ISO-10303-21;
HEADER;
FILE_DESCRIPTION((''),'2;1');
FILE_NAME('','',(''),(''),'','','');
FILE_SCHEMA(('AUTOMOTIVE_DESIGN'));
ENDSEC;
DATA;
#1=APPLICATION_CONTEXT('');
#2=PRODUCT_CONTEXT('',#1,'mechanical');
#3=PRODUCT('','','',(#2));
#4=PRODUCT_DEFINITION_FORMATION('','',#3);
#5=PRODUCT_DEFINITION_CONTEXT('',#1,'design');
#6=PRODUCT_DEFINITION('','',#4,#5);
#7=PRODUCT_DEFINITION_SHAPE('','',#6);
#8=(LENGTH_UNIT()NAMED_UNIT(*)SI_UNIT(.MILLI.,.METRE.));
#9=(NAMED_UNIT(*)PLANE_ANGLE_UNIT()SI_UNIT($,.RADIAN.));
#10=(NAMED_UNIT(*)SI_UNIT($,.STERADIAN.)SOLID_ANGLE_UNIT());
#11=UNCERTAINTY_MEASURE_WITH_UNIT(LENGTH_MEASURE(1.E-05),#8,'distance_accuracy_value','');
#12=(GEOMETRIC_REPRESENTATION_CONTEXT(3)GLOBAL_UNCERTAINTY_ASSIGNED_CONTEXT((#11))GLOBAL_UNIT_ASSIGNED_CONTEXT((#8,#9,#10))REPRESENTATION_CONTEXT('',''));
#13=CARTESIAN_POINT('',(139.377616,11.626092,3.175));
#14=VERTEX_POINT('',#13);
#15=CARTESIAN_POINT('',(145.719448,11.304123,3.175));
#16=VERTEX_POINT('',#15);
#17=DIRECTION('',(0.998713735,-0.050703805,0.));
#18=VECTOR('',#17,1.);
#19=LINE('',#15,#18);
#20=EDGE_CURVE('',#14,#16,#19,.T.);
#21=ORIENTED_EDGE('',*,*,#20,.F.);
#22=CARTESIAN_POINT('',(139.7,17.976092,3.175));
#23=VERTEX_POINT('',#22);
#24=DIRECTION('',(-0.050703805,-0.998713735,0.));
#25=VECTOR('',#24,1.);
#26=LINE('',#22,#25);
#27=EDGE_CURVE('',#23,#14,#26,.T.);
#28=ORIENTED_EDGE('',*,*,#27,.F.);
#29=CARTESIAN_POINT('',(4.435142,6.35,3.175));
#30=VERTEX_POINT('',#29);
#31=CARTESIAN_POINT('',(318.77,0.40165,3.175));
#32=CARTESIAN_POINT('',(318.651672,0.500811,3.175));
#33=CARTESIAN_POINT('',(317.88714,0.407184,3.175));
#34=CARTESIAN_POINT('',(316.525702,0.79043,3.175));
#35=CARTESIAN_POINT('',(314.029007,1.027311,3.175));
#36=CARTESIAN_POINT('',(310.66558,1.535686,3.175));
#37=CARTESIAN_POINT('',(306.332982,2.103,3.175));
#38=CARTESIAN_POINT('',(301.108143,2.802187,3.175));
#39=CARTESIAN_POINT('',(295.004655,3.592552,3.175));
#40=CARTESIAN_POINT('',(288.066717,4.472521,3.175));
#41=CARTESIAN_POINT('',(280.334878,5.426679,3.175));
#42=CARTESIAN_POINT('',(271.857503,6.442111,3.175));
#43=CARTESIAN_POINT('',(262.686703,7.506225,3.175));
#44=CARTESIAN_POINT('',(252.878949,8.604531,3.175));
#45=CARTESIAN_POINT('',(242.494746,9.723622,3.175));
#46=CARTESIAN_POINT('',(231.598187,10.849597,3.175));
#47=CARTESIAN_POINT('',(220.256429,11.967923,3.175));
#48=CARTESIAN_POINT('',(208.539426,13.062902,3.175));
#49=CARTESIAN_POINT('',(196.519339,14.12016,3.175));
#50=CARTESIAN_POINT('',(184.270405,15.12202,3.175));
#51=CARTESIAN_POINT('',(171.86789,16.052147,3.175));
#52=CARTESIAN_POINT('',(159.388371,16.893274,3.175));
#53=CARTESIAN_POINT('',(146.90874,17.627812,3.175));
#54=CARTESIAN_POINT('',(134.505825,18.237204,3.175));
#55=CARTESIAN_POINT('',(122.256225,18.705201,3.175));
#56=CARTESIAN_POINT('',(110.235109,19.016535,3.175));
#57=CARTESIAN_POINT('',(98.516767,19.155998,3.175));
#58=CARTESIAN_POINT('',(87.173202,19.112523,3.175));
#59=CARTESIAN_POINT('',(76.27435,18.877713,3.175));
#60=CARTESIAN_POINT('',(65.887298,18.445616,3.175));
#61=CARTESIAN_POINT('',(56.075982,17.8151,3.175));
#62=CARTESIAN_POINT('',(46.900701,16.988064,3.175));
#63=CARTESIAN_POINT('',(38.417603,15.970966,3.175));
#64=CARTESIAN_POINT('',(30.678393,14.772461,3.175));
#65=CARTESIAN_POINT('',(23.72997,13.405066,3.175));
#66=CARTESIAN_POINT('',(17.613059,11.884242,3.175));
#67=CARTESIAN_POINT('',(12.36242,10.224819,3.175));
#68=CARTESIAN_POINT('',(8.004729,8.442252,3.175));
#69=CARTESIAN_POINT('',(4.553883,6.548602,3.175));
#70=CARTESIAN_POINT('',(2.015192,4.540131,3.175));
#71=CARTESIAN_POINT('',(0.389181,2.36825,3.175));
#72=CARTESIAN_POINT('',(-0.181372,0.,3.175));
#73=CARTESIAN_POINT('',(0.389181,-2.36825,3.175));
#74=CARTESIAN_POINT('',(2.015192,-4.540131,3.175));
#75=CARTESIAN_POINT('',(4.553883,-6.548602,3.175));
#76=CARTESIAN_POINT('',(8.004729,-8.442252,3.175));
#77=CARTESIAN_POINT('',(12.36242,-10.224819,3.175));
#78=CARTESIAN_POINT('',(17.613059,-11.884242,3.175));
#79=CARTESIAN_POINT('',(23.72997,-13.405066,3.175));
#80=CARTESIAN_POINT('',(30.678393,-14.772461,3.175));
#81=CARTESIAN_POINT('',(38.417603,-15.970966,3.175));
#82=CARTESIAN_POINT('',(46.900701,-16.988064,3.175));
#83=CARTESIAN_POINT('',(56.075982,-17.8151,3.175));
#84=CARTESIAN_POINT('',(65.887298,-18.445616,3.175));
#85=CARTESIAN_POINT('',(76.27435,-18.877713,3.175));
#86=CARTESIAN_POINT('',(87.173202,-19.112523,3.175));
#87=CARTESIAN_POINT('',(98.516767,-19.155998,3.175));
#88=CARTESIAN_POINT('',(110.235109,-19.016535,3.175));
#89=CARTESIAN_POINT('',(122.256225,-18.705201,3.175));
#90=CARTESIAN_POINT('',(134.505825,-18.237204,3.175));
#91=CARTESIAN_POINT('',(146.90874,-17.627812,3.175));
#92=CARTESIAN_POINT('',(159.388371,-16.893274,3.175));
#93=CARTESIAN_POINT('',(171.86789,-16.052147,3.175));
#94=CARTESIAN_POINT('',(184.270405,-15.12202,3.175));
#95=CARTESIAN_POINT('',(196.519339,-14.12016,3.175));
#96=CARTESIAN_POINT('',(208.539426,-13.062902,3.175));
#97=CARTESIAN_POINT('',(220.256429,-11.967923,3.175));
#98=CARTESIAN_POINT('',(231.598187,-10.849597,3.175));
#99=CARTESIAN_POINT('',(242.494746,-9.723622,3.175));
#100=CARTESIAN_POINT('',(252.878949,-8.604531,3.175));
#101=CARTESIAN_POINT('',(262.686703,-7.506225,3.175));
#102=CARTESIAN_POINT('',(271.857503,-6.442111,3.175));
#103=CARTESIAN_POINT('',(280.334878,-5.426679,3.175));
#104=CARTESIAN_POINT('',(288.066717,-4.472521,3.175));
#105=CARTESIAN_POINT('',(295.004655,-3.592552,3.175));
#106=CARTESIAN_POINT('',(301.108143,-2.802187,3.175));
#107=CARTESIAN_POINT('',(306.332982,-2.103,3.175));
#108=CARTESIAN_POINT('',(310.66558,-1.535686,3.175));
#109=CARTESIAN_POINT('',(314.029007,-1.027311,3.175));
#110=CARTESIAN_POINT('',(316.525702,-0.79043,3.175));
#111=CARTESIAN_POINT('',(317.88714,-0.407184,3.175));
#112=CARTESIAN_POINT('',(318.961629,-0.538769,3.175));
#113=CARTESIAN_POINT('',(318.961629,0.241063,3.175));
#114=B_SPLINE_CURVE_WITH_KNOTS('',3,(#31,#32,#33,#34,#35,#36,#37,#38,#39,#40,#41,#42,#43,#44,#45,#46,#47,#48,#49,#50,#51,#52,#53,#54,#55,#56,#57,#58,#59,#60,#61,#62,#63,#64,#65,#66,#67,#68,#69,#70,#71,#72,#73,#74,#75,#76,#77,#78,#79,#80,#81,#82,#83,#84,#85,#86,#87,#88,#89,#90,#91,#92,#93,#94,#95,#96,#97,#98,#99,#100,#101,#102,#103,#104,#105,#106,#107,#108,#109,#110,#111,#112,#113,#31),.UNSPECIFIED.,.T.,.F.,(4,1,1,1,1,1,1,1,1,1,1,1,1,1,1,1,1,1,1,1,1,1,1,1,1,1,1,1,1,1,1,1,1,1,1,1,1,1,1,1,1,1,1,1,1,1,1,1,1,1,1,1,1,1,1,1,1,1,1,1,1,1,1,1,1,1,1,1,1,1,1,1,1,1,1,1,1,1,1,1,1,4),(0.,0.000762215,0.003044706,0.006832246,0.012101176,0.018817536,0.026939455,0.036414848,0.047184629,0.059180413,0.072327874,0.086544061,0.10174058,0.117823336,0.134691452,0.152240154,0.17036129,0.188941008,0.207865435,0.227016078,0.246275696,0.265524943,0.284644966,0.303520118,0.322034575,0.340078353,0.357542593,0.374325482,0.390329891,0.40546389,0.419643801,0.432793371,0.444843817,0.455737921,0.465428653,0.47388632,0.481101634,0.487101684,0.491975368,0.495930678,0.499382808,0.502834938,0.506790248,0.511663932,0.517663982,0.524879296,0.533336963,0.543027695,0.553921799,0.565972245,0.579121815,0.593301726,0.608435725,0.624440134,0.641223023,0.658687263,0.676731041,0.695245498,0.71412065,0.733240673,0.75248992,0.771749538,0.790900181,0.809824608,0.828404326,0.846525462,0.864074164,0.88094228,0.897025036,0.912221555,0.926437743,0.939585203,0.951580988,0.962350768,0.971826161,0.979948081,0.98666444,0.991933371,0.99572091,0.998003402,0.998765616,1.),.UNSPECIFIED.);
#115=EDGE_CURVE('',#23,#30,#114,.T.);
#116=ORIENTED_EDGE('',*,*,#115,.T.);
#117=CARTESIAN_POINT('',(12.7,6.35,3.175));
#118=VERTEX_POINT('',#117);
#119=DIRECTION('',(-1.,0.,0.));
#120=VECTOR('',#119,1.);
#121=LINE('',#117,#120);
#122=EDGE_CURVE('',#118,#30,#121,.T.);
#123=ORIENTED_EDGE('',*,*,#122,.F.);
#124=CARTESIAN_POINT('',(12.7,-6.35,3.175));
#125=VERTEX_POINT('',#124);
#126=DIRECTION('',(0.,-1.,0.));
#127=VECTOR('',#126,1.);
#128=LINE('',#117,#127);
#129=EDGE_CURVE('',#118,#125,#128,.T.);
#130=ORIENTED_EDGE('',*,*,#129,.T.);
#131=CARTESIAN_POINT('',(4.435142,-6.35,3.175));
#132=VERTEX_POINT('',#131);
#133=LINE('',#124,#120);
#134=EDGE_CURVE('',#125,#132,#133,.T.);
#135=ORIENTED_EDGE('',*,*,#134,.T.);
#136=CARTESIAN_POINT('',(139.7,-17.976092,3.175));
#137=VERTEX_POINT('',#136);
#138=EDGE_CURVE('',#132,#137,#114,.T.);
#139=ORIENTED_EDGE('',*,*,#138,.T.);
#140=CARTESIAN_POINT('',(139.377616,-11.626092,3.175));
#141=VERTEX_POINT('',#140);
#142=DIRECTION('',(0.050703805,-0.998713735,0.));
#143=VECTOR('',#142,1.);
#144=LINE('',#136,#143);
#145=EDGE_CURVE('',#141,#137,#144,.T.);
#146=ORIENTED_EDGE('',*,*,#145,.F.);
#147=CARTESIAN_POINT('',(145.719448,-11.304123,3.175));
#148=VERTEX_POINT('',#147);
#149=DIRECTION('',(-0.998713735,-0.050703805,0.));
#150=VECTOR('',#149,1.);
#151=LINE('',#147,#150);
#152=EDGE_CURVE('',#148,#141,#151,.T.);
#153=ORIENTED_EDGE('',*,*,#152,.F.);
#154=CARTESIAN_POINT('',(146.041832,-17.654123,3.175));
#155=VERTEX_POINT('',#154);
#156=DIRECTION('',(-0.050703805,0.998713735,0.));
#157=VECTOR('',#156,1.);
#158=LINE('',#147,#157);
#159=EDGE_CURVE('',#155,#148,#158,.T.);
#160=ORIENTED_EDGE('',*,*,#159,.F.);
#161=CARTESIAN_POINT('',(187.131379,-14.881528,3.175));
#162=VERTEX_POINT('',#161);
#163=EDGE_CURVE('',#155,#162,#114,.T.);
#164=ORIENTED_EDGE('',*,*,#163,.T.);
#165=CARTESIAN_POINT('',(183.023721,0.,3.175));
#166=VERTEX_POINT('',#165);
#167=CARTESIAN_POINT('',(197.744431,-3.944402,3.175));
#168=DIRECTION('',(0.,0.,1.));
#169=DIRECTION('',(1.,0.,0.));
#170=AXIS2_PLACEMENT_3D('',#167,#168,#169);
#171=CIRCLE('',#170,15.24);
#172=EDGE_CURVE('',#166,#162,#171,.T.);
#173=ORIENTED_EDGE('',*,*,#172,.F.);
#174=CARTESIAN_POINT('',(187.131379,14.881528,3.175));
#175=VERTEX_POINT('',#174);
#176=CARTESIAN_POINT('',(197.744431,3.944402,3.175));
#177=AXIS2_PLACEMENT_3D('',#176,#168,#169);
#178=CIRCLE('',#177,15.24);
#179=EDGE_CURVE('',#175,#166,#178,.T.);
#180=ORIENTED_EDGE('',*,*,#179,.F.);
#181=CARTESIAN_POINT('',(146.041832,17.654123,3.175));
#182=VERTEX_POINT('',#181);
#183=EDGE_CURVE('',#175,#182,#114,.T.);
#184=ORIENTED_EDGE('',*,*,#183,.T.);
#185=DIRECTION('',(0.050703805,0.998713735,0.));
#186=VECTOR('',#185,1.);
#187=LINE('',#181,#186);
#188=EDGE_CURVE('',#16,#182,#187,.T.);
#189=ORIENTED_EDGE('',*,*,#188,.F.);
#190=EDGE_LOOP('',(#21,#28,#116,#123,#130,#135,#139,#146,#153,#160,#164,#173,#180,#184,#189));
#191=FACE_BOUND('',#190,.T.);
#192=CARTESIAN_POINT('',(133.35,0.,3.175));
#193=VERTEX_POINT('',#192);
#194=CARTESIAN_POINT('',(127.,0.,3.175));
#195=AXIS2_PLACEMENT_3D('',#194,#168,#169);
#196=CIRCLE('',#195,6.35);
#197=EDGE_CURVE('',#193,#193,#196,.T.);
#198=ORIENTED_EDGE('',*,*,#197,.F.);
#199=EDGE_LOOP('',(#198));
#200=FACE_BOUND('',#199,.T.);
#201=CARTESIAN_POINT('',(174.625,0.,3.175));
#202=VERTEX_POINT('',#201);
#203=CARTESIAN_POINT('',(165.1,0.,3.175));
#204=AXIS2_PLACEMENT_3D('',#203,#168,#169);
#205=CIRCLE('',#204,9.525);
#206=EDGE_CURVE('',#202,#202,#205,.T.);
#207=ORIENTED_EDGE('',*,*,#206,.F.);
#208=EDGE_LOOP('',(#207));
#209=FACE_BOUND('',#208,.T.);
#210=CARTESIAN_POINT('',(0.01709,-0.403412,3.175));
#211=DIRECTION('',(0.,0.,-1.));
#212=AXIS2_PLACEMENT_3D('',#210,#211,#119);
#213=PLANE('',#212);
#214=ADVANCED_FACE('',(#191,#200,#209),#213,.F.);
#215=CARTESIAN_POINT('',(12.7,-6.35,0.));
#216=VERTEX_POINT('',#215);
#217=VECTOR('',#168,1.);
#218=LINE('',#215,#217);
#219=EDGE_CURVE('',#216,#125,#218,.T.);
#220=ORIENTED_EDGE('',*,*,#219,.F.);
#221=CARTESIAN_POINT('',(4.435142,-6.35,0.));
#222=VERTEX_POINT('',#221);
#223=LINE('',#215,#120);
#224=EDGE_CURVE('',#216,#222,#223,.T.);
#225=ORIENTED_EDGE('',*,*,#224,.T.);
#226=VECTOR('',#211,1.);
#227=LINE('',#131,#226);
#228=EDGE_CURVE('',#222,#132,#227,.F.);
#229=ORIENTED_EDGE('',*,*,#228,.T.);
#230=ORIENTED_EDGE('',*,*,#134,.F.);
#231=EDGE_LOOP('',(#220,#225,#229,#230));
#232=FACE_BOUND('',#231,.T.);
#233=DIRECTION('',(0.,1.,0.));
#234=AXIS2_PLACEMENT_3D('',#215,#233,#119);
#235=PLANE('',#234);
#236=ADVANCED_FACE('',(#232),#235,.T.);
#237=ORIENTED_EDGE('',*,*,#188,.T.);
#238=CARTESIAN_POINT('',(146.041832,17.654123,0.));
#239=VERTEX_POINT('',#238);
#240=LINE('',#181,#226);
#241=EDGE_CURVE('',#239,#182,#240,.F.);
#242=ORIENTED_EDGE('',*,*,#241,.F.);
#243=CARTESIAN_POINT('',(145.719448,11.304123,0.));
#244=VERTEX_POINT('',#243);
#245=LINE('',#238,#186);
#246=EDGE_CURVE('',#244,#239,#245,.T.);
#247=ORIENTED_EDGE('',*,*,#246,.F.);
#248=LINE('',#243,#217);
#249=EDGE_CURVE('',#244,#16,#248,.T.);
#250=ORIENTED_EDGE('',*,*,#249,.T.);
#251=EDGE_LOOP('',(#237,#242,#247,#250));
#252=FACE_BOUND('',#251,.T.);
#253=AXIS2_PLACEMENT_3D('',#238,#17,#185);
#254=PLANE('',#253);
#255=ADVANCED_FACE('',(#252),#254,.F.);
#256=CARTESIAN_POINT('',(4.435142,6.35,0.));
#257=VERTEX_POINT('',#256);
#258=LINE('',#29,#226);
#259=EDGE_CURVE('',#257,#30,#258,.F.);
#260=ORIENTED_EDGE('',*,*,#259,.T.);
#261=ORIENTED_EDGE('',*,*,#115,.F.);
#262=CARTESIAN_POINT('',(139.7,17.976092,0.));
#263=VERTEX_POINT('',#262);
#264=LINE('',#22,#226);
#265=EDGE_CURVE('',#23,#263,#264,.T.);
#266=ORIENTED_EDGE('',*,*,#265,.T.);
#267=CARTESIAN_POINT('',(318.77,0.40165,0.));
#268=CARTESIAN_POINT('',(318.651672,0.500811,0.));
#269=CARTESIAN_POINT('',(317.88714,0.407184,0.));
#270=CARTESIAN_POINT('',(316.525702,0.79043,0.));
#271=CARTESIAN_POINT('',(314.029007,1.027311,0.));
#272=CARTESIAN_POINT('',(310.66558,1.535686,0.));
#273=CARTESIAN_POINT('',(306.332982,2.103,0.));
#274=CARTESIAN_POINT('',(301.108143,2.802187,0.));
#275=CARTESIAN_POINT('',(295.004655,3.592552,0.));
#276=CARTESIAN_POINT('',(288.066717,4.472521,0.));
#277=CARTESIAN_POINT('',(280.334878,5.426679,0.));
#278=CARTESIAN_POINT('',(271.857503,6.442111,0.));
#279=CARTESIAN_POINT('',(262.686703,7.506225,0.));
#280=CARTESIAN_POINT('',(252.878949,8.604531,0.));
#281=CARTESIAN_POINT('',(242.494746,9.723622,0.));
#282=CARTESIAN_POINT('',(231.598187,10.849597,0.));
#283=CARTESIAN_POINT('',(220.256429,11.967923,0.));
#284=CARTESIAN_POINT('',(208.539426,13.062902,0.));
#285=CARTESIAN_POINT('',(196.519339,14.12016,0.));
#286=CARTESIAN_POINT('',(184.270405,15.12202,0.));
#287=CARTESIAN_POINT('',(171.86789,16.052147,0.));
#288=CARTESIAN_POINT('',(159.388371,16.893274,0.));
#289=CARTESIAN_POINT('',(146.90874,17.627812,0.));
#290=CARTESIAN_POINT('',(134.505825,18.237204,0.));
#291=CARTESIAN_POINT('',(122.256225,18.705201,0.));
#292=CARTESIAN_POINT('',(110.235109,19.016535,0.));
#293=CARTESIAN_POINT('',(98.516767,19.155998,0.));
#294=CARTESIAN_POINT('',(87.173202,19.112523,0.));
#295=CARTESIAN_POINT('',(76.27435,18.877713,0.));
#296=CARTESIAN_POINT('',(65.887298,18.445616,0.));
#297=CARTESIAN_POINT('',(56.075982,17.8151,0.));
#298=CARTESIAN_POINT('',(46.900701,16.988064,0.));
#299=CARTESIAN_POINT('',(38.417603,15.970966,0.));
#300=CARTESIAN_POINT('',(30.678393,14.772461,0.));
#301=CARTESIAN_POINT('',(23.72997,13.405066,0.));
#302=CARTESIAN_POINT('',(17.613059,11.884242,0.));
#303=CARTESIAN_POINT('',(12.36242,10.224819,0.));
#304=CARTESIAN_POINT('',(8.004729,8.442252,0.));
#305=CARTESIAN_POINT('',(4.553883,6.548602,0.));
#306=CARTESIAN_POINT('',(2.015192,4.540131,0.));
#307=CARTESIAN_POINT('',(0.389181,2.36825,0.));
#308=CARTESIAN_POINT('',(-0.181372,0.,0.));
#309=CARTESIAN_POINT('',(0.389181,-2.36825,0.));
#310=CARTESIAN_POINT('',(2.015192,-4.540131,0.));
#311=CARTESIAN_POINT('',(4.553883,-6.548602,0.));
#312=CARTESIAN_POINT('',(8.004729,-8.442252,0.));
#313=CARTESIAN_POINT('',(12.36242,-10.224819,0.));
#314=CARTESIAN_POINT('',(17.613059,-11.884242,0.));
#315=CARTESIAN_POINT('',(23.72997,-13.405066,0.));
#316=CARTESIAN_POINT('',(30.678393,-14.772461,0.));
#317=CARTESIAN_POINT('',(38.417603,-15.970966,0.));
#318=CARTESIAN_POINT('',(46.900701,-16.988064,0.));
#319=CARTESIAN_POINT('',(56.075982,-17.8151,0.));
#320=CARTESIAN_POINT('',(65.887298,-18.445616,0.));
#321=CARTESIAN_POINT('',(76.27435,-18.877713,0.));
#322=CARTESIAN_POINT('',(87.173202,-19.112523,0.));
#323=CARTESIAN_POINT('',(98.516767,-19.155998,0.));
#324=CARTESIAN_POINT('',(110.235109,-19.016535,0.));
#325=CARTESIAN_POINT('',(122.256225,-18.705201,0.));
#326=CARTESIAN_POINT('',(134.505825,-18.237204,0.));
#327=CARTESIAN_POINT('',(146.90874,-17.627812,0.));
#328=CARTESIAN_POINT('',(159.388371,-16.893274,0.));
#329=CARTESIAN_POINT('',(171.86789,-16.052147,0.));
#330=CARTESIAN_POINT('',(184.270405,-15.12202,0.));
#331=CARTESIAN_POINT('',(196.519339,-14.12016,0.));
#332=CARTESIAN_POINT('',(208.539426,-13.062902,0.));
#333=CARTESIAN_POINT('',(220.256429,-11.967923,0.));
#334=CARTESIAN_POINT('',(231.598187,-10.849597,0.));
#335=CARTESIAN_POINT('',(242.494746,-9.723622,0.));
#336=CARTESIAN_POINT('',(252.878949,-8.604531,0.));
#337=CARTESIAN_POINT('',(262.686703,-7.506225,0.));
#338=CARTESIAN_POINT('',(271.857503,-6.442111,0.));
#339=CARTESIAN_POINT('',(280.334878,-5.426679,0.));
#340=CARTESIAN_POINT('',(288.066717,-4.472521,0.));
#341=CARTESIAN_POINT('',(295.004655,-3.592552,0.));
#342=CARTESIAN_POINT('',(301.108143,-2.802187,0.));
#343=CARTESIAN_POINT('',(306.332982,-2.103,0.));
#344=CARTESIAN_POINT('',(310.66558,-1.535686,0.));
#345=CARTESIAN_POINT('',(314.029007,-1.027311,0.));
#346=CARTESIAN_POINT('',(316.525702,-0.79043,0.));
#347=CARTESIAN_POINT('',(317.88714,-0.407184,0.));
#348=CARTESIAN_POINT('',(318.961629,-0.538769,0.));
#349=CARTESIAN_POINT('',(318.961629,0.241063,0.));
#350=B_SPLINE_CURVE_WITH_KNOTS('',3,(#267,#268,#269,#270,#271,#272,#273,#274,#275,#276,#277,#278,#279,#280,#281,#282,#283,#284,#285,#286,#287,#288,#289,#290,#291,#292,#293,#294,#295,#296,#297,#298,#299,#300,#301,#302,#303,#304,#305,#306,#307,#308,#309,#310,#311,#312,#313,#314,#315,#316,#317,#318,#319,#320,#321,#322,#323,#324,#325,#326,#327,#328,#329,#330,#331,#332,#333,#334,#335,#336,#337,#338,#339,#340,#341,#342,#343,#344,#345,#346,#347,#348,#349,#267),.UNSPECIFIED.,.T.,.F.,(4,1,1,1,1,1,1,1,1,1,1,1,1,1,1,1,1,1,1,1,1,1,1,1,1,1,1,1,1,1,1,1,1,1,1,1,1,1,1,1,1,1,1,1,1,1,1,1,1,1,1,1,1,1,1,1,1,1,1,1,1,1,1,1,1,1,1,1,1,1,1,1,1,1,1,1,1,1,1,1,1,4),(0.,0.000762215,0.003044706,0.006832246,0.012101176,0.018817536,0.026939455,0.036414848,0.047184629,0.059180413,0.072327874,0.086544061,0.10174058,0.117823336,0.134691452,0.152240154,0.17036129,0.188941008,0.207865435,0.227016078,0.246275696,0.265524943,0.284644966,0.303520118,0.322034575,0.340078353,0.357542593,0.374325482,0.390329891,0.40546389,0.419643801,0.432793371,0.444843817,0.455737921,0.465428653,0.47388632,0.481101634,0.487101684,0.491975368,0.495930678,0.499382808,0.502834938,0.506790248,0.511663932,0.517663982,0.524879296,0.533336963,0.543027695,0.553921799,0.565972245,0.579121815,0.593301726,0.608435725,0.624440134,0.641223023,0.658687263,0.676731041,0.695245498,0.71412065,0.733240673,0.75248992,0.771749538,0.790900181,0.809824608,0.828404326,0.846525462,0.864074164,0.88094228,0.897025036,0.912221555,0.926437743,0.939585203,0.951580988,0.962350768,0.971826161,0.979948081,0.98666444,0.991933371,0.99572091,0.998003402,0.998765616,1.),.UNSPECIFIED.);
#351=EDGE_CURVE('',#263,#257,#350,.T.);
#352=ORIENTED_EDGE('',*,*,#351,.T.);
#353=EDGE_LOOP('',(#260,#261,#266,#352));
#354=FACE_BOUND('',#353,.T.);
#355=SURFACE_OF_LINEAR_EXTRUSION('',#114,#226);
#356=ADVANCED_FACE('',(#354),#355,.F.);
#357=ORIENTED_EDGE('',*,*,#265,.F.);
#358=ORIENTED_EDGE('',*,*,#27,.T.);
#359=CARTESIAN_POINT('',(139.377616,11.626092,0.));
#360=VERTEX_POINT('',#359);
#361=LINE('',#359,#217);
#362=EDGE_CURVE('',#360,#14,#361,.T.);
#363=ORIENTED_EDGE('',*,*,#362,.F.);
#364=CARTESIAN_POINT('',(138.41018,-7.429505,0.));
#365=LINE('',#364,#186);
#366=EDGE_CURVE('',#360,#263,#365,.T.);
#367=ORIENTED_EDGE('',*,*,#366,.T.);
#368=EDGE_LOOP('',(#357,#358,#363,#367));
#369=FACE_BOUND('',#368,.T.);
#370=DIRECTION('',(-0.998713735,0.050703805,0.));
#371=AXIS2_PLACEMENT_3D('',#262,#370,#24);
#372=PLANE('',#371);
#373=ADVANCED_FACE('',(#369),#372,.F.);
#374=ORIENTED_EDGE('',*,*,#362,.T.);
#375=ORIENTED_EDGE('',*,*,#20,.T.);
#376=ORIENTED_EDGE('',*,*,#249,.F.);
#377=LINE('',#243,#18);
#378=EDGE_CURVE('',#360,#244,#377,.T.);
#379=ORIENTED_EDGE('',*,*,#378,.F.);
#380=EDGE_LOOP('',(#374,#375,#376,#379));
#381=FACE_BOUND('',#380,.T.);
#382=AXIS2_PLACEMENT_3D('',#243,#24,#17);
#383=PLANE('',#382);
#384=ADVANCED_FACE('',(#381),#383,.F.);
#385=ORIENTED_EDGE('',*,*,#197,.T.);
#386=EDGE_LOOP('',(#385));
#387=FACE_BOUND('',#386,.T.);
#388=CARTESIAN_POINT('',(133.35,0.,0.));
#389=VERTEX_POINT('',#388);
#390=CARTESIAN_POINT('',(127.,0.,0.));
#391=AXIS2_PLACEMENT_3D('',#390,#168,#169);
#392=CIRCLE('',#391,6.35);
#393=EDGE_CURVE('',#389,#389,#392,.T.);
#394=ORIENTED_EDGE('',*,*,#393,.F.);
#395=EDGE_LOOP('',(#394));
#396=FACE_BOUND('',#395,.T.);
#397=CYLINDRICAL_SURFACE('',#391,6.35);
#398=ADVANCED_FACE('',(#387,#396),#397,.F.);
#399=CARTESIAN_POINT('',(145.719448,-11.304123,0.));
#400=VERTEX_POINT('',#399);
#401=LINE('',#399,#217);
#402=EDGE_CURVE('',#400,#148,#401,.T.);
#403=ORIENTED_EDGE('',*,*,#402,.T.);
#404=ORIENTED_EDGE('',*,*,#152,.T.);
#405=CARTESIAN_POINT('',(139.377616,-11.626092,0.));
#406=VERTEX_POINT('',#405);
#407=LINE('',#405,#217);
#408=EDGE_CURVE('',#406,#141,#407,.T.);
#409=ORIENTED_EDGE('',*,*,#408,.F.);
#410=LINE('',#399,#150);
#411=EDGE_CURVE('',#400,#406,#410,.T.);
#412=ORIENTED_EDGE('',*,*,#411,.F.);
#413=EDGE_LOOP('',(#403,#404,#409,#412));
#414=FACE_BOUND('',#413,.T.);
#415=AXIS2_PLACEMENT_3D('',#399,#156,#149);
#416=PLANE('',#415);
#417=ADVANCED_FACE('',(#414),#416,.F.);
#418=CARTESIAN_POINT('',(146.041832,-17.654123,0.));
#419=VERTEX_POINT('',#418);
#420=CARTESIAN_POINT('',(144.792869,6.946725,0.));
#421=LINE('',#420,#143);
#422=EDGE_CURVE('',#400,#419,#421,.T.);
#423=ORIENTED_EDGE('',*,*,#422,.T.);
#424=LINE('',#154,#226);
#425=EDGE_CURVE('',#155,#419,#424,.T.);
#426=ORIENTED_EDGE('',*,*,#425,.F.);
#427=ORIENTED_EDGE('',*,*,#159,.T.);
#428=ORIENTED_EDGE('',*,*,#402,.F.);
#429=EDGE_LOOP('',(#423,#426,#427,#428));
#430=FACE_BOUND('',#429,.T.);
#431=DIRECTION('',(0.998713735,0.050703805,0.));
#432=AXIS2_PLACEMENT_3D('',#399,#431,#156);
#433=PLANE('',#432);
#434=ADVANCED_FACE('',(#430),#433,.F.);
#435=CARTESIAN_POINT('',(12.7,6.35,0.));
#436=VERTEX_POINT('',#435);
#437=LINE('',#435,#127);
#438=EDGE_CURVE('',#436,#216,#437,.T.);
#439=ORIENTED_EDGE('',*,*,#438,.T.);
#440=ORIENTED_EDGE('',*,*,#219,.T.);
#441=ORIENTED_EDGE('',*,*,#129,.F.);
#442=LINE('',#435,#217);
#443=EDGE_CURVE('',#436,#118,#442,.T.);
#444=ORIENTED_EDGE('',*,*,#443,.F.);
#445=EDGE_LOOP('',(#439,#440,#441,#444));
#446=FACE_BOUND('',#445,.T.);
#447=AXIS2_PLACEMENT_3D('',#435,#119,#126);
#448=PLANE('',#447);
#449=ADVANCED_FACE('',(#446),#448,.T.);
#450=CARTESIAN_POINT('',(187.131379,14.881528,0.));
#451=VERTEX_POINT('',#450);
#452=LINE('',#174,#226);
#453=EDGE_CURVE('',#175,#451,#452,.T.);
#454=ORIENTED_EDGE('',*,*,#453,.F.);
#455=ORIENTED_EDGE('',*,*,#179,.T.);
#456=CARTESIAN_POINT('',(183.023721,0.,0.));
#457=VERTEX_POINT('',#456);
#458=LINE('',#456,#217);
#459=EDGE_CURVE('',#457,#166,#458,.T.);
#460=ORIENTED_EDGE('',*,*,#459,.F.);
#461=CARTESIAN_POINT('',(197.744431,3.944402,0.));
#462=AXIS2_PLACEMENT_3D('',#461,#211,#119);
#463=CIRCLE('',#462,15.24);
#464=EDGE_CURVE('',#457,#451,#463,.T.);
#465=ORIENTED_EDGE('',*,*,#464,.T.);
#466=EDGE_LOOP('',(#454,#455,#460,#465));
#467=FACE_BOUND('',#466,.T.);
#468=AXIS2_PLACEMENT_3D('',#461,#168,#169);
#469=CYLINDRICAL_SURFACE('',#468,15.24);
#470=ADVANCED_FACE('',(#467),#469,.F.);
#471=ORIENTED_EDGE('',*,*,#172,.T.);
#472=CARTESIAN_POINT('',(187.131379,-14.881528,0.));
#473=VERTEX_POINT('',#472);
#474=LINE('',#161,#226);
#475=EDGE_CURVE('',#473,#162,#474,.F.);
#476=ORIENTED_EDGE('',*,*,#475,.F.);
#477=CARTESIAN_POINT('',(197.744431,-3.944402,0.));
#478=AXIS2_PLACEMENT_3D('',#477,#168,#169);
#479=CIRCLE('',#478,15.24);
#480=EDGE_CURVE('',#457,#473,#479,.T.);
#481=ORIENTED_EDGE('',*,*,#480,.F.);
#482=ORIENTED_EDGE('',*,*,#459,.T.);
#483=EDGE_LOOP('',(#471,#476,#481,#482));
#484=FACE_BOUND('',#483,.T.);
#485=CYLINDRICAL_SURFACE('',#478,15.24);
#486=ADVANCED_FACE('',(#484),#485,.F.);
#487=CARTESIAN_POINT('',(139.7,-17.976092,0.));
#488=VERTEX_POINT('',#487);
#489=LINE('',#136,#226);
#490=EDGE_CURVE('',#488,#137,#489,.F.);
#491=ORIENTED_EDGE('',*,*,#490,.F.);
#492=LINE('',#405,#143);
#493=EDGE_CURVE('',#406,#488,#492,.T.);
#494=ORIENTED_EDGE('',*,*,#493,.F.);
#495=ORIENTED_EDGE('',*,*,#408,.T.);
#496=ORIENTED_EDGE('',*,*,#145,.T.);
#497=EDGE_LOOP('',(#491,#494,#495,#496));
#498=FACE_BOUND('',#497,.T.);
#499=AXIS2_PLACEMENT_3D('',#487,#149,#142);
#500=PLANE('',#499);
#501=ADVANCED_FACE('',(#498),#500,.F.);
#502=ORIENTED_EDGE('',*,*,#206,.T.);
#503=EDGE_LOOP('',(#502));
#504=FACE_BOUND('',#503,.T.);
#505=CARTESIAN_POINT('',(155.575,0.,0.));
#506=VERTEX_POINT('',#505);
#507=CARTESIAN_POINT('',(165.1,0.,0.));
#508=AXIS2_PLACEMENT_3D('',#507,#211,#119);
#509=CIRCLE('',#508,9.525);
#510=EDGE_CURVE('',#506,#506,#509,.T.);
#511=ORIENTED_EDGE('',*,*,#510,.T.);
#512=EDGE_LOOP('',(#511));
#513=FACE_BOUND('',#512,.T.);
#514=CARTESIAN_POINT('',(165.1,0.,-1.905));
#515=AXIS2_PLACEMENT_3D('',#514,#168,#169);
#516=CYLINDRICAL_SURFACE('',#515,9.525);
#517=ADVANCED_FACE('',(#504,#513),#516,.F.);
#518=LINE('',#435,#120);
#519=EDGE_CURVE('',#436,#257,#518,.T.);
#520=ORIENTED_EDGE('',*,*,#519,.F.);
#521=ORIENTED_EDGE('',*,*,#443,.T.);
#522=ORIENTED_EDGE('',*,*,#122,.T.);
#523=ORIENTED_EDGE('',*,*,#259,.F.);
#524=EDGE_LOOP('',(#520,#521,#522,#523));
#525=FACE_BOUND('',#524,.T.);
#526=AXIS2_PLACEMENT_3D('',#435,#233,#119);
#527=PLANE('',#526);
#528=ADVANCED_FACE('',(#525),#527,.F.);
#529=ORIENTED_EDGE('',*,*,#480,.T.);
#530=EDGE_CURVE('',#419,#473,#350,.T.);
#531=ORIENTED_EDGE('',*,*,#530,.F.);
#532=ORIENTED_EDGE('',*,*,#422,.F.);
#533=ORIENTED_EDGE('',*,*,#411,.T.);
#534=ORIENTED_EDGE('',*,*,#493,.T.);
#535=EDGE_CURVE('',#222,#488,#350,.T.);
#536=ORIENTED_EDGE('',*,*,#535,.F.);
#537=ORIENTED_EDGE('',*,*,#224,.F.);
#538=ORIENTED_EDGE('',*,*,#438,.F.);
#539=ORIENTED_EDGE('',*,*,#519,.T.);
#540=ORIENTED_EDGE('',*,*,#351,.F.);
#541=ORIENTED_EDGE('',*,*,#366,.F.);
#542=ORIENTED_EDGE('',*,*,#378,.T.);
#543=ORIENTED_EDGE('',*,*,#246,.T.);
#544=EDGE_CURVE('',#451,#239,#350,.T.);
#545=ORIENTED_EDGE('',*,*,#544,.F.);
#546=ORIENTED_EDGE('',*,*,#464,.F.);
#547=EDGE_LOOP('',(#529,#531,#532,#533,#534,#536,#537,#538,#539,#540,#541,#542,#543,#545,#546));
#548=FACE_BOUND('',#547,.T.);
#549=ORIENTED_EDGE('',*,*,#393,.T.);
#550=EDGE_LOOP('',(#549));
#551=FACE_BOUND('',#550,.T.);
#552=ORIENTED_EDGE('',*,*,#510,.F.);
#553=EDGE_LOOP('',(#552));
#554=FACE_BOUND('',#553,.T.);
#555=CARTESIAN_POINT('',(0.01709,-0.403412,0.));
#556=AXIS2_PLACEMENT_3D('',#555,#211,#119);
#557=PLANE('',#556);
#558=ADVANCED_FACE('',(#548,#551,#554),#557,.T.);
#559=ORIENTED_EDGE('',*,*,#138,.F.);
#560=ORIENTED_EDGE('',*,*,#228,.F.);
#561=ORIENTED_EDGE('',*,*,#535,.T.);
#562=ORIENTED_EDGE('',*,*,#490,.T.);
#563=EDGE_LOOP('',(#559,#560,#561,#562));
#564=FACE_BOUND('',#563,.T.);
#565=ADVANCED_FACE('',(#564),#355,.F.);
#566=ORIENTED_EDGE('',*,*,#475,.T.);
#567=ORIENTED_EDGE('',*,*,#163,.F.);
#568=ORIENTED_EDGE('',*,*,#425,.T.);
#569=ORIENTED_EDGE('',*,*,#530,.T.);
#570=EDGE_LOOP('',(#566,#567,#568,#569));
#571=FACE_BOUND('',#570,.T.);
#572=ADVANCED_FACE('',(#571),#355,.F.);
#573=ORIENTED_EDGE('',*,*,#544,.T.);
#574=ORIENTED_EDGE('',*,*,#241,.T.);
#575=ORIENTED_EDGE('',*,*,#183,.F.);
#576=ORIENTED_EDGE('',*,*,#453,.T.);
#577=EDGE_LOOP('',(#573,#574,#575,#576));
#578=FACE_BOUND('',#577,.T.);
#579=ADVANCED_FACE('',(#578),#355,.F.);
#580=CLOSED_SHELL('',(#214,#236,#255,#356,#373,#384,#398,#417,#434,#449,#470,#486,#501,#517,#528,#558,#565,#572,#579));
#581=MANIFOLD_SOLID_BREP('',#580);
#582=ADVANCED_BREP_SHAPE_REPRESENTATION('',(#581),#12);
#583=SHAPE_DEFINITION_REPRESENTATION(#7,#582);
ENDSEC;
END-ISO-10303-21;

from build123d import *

# Parameters (mm, degrees)
BOSS_EXTRUDE1_DEPTH = 3.175
SKETCH3_R           = 6.35
CUT_EXTRUDE1_DEPTH  = 4.1750001
SKETCH4_W           = 12.7
SKETCH4_H           = 12.7
CUT_EXTRUDE2_DEPTH  = 4.1750001
CUT_EXTRUDE3_DEPTH  = 4.1750001
SKETCH9_R           = 9.525
CUT_EXTRUDE5_DEPTH  = 5.08


with BuildPart() as part:
    # Sketch2 → Boss-Extrude1 (new body)
    with BuildSketch(Plane.XY):
        with BuildLine():
            add(Edge.make_bspline(
                [(318.77, 0.4016502), (318.651672051, 0.500810625), (317.887139521, 0.407183952), (316.525702267, 0.790429835), (314.029007456, 1.027310814), (310.665580368, 1.535686456), (306.332982445, 2.102999714), (301.108142881, 2.802187224), (295.00465514, 3.592552282), (288.066717306, 4.4725213), (280.334877508, 5.426678676), (271.857503414, 6.442111261), (262.686702585, 7.506224727), (252.87894916, 8.604531435), (242.494745532, 9.723621949), (231.598187206, 10.849597023), (220.25642858, 11.967923085), (208.539426289, 13.062902197), (196.51933871, 14.120159542), (184.270405083, 15.122019671), (171.867889749, 16.052147213), (159.388371015, 16.893273609), (146.908740176, 17.627811631), (134.505824677, 18.237204103), (122.256224526, 18.705201007), (110.2351092, 19.016534527), (98.516766738, 19.155997955), (87.173201506, 19.112523415), (76.274349541, 18.877713447), (65.887298252, 18.445615875), (56.075981931, 17.815100401), (46.900701285, 16.988064202), (38.417602501, 15.970966467), (30.678392783, 14.772461193), (23.72996987, 13.405065743), (17.613059426, 11.884241622), (12.362420389, 10.224818762), (8.00472945, 8.442252382), (4.553883407, 6.548602381), (2.01519229, 4.54013128), (0.389181285, 2.368249597), (-0.181372316, 0), (0.389181285, -2.368249597), (2.01519229, -4.54013128), (4.553883407, -6.548602381), (8.00472945, -8.442252382), (12.362420389, -10.224818762), (17.613059426, -11.884241622), (23.72996987, -13.405065743), (30.678392783, -14.772461193), (38.417602501, -15.970966467), (46.900701285, -16.988064202), (56.075981931, -17.815100401), (65.887298252, -18.445615875), (76.274349541, -18.877713447), (87.173201506, -19.112523415), (98.516766738, -19.155997955), (110.2351092, -19.016534527), (122.256224526, -18.705201007), (134.505824677, -18.237204103), (146.908740176, -17.627811631), (159.388371015, -16.893273609), (171.867889749, -16.052147213), (184.270405083, -15.122019671), (196.51933871, -14.120159542), (208.539426289, -13.062902197), (220.25642858, -11.967923085), (231.598187206, -10.849597023), (242.494745532, -9.723621949), (252.87894916, -8.604531435), (262.686702585, -7.506224727), (271.857503414, -6.442111261), (280.334877508, -5.426678676), (288.066717306, -4.4725213), (295.00465514, -3.592552282), (301.108142881, -2.802187224), (306.332982445, -2.102999714), (310.665580368, -1.535686456), (314.029007456, -1.027310814), (316.525702267, -0.790429835), (317.887139521, -0.407183952), (318.96162857, -0.538768719), (318.96162857, 0.241062861), (318.77, 0.4016502)],
                knots=[0, 0, 0, 0, 0.000762215, 0.003044706, 0.006832246, 0.012101176, 0.018817536, 0.026939455, 0.036414848, 0.047184629, 0.059180413, 0.072327874, 0.086544061, 0.10174058, 0.117823336, 0.134691452, 0.152240154, 0.17036129, 0.188941008, 0.207865435, 0.227016078, 0.246275696, 0.265524943, 0.284644966, 0.303520118, 0.322034575, 0.340078353, 0.357542593, 0.374325482, 0.390329891, 0.40546389, 0.419643801, 0.432793371, 0.444843817, 0.455737921, 0.465428653, 0.47388632, 0.481101634, 0.487101684, 0.491975368, 0.495930678, 0.499382808, 0.502834938, 0.506790248, 0.511663932, 0.517663982, 0.524879296, 0.533336963, 0.543027695, 0.553921799, 0.565972245, 0.579121815, 0.593301726, 0.608435725, 0.624440134, 0.641223023, 0.658687263, 0.676731041, 0.695245498, 0.71412065, 0.733240673, 0.75248992, 0.771749538, 0.790900181, 0.809824608, 0.828404326, 0.846525462, 0.864074164, 0.88094228, 0.897025036, 0.912221555, 0.926437743, 0.939585203, 0.951580988, 0.962350768, 0.971826161, 0.979948081, 0.98666444, 0.991933371, 0.99572091, 0.998003402, 0.998765616, 1, 1, 1, 1], degree=3))
        make_face()
    extrude(amount=BOSS_EXTRUDE1_DEPTH)

    # Sketch3 → Cut-Extrude1 (cut, through all)
    with BuildSketch(Plane.XY.offset(3.175)):
        with Locations((127, 0)):
            Circle(SKETCH3_R)
        Polygon((146.041832216, 17.654123083), (145.719448384, 11.304123083), (139.377616168, 11.626092244), (139.7, 17.976092244), (139.972135492, 23.336349817), (146.313967709, 23.014380656), align=None)
        Polygon((145.719448384, -11.304123083), (139.377616168, -11.626092244), (139.7, -17.976092244), (139.876824838, -21.459014187), (146.218657054, -21.137045026), (146.041832216, -17.654123083), align=None)
    extrude(amount=-CUT_EXTRUDE1_DEPTH, mode=Mode.SUBTRACT)

    # Sketch4 → Cut-Extrude2 (cut, through all)
    with BuildSketch(Plane.XY.offset(3.175)):
        with Locations((6.35, 0)):
            Rectangle(SKETCH4_W, SKETCH4_H)
    extrude(amount=-CUT_EXTRUDE2_DEPTH, mode=Mode.SUBTRACT)

    # Sketch5 → Cut-Extrude3 (cut, through all)
    with BuildSketch(Plane.XY.offset(3.175)):
        with BuildLine():
            Line((188.763328764, 17.093497057), (187.34983048, 15.089350861))
            ThreePointArc((187.34983048, 15.089350861), (183.094624601, 8.144494137), (183.023721428, 0))
            ThreePointArc((183.023721428, 0), (183.072311074, -8.06586998), (187.230894162, -14.977223407))
            Line((187.230894162, -14.977223407), (188.588975382, -18.075111724))
            add(Edge.make_bspline(
                [(188.588975382, -18.075111724), (191.824355535, -17.830310957), (199.841087156, -17.206236773), (212.516511905, -16.154636366), (226.466564745, -14.920704924), (239.970203835, -13.65677605), (252.944086016, -12.381118049), (265.308209748, -11.110630122), (276.986217406, -9.861474653), (287.906030173, -8.649252334), (298.000356614, -7.490870717), (307.207112828, -6.401010018), (315.468663619, -5.394751924), (322.736664519, -4.490202252), (328.958509167, -3.688972861), (334.117780822, -3.039413883), (338.123361689, -2.454274616), (341.095902765, -2.187108839), (342.718315982, -1.739066598), (343.996214648, -1.901995728), (344.002571846, -0.619693067), (342.723120546, -0.769943771), (341.105229436, -0.305837259), (338.135483436, -0.009211749), (334.135901144, 0.615614253), (328.983323498, 1.316295691), (322.769728908, 2.179175541), (315.511053915, 3.155743275), (307.259886312, 4.24386552), (298.064388673, 5.42495801), (287.982043821, 6.683368345), (277.074787054, 8.003801467), (265.409738858, 9.368683456), (253.058819828, 10.761699723), (240.098223582, 12.165931591), (226.607780172, 13.563687468), (212.670647531, 14.9358736), (200.006272506, 16.113099669), (191.996122671, 16.816629398), (188.763328764, 17.093497057)],
                knots=[0.797255798, 0.797255798, 0.797255798, 0.797255798, 0.809824608, 0.828404326, 0.846525462, 0.864074164, 0.88094228, 0.897025036, 0.912221555, 0.926437743, 0.939585203, 0.951580988, 0.962350768, 0.971826161, 0.979948081, 0.98666444, 0.991933371, 0.99572091, 0.998003402, 0.998765616, 1, 1.000762215, 1.003044706, 1.006832246, 1.012101176, 1.018817536, 1.026939455, 1.036414848, 1.047184629, 1.059180413, 1.072327874, 1.086544061, 1.10174058, 1.117823336, 1.134691452, 1.152240154, 1.17036129, 1.188941008, 1.201509818, 1.201509818, 1.201509818, 1.201509818], degree=3))
        make_face()
    extrude(amount=-CUT_EXTRUDE3_DEPTH, mode=Mode.SUBTRACT)

    # Sketch9 → Cut-Extrude5 (cut)
    with BuildSketch(Plane.XY.offset(3.175)):
        with Locations((165.1, 0)):
            Circle(SKETCH9_R)
    extrude(amount=-CUT_EXTRUDE5_DEPTH, mode=Mode.SUBTRACT)


solid = part.part
